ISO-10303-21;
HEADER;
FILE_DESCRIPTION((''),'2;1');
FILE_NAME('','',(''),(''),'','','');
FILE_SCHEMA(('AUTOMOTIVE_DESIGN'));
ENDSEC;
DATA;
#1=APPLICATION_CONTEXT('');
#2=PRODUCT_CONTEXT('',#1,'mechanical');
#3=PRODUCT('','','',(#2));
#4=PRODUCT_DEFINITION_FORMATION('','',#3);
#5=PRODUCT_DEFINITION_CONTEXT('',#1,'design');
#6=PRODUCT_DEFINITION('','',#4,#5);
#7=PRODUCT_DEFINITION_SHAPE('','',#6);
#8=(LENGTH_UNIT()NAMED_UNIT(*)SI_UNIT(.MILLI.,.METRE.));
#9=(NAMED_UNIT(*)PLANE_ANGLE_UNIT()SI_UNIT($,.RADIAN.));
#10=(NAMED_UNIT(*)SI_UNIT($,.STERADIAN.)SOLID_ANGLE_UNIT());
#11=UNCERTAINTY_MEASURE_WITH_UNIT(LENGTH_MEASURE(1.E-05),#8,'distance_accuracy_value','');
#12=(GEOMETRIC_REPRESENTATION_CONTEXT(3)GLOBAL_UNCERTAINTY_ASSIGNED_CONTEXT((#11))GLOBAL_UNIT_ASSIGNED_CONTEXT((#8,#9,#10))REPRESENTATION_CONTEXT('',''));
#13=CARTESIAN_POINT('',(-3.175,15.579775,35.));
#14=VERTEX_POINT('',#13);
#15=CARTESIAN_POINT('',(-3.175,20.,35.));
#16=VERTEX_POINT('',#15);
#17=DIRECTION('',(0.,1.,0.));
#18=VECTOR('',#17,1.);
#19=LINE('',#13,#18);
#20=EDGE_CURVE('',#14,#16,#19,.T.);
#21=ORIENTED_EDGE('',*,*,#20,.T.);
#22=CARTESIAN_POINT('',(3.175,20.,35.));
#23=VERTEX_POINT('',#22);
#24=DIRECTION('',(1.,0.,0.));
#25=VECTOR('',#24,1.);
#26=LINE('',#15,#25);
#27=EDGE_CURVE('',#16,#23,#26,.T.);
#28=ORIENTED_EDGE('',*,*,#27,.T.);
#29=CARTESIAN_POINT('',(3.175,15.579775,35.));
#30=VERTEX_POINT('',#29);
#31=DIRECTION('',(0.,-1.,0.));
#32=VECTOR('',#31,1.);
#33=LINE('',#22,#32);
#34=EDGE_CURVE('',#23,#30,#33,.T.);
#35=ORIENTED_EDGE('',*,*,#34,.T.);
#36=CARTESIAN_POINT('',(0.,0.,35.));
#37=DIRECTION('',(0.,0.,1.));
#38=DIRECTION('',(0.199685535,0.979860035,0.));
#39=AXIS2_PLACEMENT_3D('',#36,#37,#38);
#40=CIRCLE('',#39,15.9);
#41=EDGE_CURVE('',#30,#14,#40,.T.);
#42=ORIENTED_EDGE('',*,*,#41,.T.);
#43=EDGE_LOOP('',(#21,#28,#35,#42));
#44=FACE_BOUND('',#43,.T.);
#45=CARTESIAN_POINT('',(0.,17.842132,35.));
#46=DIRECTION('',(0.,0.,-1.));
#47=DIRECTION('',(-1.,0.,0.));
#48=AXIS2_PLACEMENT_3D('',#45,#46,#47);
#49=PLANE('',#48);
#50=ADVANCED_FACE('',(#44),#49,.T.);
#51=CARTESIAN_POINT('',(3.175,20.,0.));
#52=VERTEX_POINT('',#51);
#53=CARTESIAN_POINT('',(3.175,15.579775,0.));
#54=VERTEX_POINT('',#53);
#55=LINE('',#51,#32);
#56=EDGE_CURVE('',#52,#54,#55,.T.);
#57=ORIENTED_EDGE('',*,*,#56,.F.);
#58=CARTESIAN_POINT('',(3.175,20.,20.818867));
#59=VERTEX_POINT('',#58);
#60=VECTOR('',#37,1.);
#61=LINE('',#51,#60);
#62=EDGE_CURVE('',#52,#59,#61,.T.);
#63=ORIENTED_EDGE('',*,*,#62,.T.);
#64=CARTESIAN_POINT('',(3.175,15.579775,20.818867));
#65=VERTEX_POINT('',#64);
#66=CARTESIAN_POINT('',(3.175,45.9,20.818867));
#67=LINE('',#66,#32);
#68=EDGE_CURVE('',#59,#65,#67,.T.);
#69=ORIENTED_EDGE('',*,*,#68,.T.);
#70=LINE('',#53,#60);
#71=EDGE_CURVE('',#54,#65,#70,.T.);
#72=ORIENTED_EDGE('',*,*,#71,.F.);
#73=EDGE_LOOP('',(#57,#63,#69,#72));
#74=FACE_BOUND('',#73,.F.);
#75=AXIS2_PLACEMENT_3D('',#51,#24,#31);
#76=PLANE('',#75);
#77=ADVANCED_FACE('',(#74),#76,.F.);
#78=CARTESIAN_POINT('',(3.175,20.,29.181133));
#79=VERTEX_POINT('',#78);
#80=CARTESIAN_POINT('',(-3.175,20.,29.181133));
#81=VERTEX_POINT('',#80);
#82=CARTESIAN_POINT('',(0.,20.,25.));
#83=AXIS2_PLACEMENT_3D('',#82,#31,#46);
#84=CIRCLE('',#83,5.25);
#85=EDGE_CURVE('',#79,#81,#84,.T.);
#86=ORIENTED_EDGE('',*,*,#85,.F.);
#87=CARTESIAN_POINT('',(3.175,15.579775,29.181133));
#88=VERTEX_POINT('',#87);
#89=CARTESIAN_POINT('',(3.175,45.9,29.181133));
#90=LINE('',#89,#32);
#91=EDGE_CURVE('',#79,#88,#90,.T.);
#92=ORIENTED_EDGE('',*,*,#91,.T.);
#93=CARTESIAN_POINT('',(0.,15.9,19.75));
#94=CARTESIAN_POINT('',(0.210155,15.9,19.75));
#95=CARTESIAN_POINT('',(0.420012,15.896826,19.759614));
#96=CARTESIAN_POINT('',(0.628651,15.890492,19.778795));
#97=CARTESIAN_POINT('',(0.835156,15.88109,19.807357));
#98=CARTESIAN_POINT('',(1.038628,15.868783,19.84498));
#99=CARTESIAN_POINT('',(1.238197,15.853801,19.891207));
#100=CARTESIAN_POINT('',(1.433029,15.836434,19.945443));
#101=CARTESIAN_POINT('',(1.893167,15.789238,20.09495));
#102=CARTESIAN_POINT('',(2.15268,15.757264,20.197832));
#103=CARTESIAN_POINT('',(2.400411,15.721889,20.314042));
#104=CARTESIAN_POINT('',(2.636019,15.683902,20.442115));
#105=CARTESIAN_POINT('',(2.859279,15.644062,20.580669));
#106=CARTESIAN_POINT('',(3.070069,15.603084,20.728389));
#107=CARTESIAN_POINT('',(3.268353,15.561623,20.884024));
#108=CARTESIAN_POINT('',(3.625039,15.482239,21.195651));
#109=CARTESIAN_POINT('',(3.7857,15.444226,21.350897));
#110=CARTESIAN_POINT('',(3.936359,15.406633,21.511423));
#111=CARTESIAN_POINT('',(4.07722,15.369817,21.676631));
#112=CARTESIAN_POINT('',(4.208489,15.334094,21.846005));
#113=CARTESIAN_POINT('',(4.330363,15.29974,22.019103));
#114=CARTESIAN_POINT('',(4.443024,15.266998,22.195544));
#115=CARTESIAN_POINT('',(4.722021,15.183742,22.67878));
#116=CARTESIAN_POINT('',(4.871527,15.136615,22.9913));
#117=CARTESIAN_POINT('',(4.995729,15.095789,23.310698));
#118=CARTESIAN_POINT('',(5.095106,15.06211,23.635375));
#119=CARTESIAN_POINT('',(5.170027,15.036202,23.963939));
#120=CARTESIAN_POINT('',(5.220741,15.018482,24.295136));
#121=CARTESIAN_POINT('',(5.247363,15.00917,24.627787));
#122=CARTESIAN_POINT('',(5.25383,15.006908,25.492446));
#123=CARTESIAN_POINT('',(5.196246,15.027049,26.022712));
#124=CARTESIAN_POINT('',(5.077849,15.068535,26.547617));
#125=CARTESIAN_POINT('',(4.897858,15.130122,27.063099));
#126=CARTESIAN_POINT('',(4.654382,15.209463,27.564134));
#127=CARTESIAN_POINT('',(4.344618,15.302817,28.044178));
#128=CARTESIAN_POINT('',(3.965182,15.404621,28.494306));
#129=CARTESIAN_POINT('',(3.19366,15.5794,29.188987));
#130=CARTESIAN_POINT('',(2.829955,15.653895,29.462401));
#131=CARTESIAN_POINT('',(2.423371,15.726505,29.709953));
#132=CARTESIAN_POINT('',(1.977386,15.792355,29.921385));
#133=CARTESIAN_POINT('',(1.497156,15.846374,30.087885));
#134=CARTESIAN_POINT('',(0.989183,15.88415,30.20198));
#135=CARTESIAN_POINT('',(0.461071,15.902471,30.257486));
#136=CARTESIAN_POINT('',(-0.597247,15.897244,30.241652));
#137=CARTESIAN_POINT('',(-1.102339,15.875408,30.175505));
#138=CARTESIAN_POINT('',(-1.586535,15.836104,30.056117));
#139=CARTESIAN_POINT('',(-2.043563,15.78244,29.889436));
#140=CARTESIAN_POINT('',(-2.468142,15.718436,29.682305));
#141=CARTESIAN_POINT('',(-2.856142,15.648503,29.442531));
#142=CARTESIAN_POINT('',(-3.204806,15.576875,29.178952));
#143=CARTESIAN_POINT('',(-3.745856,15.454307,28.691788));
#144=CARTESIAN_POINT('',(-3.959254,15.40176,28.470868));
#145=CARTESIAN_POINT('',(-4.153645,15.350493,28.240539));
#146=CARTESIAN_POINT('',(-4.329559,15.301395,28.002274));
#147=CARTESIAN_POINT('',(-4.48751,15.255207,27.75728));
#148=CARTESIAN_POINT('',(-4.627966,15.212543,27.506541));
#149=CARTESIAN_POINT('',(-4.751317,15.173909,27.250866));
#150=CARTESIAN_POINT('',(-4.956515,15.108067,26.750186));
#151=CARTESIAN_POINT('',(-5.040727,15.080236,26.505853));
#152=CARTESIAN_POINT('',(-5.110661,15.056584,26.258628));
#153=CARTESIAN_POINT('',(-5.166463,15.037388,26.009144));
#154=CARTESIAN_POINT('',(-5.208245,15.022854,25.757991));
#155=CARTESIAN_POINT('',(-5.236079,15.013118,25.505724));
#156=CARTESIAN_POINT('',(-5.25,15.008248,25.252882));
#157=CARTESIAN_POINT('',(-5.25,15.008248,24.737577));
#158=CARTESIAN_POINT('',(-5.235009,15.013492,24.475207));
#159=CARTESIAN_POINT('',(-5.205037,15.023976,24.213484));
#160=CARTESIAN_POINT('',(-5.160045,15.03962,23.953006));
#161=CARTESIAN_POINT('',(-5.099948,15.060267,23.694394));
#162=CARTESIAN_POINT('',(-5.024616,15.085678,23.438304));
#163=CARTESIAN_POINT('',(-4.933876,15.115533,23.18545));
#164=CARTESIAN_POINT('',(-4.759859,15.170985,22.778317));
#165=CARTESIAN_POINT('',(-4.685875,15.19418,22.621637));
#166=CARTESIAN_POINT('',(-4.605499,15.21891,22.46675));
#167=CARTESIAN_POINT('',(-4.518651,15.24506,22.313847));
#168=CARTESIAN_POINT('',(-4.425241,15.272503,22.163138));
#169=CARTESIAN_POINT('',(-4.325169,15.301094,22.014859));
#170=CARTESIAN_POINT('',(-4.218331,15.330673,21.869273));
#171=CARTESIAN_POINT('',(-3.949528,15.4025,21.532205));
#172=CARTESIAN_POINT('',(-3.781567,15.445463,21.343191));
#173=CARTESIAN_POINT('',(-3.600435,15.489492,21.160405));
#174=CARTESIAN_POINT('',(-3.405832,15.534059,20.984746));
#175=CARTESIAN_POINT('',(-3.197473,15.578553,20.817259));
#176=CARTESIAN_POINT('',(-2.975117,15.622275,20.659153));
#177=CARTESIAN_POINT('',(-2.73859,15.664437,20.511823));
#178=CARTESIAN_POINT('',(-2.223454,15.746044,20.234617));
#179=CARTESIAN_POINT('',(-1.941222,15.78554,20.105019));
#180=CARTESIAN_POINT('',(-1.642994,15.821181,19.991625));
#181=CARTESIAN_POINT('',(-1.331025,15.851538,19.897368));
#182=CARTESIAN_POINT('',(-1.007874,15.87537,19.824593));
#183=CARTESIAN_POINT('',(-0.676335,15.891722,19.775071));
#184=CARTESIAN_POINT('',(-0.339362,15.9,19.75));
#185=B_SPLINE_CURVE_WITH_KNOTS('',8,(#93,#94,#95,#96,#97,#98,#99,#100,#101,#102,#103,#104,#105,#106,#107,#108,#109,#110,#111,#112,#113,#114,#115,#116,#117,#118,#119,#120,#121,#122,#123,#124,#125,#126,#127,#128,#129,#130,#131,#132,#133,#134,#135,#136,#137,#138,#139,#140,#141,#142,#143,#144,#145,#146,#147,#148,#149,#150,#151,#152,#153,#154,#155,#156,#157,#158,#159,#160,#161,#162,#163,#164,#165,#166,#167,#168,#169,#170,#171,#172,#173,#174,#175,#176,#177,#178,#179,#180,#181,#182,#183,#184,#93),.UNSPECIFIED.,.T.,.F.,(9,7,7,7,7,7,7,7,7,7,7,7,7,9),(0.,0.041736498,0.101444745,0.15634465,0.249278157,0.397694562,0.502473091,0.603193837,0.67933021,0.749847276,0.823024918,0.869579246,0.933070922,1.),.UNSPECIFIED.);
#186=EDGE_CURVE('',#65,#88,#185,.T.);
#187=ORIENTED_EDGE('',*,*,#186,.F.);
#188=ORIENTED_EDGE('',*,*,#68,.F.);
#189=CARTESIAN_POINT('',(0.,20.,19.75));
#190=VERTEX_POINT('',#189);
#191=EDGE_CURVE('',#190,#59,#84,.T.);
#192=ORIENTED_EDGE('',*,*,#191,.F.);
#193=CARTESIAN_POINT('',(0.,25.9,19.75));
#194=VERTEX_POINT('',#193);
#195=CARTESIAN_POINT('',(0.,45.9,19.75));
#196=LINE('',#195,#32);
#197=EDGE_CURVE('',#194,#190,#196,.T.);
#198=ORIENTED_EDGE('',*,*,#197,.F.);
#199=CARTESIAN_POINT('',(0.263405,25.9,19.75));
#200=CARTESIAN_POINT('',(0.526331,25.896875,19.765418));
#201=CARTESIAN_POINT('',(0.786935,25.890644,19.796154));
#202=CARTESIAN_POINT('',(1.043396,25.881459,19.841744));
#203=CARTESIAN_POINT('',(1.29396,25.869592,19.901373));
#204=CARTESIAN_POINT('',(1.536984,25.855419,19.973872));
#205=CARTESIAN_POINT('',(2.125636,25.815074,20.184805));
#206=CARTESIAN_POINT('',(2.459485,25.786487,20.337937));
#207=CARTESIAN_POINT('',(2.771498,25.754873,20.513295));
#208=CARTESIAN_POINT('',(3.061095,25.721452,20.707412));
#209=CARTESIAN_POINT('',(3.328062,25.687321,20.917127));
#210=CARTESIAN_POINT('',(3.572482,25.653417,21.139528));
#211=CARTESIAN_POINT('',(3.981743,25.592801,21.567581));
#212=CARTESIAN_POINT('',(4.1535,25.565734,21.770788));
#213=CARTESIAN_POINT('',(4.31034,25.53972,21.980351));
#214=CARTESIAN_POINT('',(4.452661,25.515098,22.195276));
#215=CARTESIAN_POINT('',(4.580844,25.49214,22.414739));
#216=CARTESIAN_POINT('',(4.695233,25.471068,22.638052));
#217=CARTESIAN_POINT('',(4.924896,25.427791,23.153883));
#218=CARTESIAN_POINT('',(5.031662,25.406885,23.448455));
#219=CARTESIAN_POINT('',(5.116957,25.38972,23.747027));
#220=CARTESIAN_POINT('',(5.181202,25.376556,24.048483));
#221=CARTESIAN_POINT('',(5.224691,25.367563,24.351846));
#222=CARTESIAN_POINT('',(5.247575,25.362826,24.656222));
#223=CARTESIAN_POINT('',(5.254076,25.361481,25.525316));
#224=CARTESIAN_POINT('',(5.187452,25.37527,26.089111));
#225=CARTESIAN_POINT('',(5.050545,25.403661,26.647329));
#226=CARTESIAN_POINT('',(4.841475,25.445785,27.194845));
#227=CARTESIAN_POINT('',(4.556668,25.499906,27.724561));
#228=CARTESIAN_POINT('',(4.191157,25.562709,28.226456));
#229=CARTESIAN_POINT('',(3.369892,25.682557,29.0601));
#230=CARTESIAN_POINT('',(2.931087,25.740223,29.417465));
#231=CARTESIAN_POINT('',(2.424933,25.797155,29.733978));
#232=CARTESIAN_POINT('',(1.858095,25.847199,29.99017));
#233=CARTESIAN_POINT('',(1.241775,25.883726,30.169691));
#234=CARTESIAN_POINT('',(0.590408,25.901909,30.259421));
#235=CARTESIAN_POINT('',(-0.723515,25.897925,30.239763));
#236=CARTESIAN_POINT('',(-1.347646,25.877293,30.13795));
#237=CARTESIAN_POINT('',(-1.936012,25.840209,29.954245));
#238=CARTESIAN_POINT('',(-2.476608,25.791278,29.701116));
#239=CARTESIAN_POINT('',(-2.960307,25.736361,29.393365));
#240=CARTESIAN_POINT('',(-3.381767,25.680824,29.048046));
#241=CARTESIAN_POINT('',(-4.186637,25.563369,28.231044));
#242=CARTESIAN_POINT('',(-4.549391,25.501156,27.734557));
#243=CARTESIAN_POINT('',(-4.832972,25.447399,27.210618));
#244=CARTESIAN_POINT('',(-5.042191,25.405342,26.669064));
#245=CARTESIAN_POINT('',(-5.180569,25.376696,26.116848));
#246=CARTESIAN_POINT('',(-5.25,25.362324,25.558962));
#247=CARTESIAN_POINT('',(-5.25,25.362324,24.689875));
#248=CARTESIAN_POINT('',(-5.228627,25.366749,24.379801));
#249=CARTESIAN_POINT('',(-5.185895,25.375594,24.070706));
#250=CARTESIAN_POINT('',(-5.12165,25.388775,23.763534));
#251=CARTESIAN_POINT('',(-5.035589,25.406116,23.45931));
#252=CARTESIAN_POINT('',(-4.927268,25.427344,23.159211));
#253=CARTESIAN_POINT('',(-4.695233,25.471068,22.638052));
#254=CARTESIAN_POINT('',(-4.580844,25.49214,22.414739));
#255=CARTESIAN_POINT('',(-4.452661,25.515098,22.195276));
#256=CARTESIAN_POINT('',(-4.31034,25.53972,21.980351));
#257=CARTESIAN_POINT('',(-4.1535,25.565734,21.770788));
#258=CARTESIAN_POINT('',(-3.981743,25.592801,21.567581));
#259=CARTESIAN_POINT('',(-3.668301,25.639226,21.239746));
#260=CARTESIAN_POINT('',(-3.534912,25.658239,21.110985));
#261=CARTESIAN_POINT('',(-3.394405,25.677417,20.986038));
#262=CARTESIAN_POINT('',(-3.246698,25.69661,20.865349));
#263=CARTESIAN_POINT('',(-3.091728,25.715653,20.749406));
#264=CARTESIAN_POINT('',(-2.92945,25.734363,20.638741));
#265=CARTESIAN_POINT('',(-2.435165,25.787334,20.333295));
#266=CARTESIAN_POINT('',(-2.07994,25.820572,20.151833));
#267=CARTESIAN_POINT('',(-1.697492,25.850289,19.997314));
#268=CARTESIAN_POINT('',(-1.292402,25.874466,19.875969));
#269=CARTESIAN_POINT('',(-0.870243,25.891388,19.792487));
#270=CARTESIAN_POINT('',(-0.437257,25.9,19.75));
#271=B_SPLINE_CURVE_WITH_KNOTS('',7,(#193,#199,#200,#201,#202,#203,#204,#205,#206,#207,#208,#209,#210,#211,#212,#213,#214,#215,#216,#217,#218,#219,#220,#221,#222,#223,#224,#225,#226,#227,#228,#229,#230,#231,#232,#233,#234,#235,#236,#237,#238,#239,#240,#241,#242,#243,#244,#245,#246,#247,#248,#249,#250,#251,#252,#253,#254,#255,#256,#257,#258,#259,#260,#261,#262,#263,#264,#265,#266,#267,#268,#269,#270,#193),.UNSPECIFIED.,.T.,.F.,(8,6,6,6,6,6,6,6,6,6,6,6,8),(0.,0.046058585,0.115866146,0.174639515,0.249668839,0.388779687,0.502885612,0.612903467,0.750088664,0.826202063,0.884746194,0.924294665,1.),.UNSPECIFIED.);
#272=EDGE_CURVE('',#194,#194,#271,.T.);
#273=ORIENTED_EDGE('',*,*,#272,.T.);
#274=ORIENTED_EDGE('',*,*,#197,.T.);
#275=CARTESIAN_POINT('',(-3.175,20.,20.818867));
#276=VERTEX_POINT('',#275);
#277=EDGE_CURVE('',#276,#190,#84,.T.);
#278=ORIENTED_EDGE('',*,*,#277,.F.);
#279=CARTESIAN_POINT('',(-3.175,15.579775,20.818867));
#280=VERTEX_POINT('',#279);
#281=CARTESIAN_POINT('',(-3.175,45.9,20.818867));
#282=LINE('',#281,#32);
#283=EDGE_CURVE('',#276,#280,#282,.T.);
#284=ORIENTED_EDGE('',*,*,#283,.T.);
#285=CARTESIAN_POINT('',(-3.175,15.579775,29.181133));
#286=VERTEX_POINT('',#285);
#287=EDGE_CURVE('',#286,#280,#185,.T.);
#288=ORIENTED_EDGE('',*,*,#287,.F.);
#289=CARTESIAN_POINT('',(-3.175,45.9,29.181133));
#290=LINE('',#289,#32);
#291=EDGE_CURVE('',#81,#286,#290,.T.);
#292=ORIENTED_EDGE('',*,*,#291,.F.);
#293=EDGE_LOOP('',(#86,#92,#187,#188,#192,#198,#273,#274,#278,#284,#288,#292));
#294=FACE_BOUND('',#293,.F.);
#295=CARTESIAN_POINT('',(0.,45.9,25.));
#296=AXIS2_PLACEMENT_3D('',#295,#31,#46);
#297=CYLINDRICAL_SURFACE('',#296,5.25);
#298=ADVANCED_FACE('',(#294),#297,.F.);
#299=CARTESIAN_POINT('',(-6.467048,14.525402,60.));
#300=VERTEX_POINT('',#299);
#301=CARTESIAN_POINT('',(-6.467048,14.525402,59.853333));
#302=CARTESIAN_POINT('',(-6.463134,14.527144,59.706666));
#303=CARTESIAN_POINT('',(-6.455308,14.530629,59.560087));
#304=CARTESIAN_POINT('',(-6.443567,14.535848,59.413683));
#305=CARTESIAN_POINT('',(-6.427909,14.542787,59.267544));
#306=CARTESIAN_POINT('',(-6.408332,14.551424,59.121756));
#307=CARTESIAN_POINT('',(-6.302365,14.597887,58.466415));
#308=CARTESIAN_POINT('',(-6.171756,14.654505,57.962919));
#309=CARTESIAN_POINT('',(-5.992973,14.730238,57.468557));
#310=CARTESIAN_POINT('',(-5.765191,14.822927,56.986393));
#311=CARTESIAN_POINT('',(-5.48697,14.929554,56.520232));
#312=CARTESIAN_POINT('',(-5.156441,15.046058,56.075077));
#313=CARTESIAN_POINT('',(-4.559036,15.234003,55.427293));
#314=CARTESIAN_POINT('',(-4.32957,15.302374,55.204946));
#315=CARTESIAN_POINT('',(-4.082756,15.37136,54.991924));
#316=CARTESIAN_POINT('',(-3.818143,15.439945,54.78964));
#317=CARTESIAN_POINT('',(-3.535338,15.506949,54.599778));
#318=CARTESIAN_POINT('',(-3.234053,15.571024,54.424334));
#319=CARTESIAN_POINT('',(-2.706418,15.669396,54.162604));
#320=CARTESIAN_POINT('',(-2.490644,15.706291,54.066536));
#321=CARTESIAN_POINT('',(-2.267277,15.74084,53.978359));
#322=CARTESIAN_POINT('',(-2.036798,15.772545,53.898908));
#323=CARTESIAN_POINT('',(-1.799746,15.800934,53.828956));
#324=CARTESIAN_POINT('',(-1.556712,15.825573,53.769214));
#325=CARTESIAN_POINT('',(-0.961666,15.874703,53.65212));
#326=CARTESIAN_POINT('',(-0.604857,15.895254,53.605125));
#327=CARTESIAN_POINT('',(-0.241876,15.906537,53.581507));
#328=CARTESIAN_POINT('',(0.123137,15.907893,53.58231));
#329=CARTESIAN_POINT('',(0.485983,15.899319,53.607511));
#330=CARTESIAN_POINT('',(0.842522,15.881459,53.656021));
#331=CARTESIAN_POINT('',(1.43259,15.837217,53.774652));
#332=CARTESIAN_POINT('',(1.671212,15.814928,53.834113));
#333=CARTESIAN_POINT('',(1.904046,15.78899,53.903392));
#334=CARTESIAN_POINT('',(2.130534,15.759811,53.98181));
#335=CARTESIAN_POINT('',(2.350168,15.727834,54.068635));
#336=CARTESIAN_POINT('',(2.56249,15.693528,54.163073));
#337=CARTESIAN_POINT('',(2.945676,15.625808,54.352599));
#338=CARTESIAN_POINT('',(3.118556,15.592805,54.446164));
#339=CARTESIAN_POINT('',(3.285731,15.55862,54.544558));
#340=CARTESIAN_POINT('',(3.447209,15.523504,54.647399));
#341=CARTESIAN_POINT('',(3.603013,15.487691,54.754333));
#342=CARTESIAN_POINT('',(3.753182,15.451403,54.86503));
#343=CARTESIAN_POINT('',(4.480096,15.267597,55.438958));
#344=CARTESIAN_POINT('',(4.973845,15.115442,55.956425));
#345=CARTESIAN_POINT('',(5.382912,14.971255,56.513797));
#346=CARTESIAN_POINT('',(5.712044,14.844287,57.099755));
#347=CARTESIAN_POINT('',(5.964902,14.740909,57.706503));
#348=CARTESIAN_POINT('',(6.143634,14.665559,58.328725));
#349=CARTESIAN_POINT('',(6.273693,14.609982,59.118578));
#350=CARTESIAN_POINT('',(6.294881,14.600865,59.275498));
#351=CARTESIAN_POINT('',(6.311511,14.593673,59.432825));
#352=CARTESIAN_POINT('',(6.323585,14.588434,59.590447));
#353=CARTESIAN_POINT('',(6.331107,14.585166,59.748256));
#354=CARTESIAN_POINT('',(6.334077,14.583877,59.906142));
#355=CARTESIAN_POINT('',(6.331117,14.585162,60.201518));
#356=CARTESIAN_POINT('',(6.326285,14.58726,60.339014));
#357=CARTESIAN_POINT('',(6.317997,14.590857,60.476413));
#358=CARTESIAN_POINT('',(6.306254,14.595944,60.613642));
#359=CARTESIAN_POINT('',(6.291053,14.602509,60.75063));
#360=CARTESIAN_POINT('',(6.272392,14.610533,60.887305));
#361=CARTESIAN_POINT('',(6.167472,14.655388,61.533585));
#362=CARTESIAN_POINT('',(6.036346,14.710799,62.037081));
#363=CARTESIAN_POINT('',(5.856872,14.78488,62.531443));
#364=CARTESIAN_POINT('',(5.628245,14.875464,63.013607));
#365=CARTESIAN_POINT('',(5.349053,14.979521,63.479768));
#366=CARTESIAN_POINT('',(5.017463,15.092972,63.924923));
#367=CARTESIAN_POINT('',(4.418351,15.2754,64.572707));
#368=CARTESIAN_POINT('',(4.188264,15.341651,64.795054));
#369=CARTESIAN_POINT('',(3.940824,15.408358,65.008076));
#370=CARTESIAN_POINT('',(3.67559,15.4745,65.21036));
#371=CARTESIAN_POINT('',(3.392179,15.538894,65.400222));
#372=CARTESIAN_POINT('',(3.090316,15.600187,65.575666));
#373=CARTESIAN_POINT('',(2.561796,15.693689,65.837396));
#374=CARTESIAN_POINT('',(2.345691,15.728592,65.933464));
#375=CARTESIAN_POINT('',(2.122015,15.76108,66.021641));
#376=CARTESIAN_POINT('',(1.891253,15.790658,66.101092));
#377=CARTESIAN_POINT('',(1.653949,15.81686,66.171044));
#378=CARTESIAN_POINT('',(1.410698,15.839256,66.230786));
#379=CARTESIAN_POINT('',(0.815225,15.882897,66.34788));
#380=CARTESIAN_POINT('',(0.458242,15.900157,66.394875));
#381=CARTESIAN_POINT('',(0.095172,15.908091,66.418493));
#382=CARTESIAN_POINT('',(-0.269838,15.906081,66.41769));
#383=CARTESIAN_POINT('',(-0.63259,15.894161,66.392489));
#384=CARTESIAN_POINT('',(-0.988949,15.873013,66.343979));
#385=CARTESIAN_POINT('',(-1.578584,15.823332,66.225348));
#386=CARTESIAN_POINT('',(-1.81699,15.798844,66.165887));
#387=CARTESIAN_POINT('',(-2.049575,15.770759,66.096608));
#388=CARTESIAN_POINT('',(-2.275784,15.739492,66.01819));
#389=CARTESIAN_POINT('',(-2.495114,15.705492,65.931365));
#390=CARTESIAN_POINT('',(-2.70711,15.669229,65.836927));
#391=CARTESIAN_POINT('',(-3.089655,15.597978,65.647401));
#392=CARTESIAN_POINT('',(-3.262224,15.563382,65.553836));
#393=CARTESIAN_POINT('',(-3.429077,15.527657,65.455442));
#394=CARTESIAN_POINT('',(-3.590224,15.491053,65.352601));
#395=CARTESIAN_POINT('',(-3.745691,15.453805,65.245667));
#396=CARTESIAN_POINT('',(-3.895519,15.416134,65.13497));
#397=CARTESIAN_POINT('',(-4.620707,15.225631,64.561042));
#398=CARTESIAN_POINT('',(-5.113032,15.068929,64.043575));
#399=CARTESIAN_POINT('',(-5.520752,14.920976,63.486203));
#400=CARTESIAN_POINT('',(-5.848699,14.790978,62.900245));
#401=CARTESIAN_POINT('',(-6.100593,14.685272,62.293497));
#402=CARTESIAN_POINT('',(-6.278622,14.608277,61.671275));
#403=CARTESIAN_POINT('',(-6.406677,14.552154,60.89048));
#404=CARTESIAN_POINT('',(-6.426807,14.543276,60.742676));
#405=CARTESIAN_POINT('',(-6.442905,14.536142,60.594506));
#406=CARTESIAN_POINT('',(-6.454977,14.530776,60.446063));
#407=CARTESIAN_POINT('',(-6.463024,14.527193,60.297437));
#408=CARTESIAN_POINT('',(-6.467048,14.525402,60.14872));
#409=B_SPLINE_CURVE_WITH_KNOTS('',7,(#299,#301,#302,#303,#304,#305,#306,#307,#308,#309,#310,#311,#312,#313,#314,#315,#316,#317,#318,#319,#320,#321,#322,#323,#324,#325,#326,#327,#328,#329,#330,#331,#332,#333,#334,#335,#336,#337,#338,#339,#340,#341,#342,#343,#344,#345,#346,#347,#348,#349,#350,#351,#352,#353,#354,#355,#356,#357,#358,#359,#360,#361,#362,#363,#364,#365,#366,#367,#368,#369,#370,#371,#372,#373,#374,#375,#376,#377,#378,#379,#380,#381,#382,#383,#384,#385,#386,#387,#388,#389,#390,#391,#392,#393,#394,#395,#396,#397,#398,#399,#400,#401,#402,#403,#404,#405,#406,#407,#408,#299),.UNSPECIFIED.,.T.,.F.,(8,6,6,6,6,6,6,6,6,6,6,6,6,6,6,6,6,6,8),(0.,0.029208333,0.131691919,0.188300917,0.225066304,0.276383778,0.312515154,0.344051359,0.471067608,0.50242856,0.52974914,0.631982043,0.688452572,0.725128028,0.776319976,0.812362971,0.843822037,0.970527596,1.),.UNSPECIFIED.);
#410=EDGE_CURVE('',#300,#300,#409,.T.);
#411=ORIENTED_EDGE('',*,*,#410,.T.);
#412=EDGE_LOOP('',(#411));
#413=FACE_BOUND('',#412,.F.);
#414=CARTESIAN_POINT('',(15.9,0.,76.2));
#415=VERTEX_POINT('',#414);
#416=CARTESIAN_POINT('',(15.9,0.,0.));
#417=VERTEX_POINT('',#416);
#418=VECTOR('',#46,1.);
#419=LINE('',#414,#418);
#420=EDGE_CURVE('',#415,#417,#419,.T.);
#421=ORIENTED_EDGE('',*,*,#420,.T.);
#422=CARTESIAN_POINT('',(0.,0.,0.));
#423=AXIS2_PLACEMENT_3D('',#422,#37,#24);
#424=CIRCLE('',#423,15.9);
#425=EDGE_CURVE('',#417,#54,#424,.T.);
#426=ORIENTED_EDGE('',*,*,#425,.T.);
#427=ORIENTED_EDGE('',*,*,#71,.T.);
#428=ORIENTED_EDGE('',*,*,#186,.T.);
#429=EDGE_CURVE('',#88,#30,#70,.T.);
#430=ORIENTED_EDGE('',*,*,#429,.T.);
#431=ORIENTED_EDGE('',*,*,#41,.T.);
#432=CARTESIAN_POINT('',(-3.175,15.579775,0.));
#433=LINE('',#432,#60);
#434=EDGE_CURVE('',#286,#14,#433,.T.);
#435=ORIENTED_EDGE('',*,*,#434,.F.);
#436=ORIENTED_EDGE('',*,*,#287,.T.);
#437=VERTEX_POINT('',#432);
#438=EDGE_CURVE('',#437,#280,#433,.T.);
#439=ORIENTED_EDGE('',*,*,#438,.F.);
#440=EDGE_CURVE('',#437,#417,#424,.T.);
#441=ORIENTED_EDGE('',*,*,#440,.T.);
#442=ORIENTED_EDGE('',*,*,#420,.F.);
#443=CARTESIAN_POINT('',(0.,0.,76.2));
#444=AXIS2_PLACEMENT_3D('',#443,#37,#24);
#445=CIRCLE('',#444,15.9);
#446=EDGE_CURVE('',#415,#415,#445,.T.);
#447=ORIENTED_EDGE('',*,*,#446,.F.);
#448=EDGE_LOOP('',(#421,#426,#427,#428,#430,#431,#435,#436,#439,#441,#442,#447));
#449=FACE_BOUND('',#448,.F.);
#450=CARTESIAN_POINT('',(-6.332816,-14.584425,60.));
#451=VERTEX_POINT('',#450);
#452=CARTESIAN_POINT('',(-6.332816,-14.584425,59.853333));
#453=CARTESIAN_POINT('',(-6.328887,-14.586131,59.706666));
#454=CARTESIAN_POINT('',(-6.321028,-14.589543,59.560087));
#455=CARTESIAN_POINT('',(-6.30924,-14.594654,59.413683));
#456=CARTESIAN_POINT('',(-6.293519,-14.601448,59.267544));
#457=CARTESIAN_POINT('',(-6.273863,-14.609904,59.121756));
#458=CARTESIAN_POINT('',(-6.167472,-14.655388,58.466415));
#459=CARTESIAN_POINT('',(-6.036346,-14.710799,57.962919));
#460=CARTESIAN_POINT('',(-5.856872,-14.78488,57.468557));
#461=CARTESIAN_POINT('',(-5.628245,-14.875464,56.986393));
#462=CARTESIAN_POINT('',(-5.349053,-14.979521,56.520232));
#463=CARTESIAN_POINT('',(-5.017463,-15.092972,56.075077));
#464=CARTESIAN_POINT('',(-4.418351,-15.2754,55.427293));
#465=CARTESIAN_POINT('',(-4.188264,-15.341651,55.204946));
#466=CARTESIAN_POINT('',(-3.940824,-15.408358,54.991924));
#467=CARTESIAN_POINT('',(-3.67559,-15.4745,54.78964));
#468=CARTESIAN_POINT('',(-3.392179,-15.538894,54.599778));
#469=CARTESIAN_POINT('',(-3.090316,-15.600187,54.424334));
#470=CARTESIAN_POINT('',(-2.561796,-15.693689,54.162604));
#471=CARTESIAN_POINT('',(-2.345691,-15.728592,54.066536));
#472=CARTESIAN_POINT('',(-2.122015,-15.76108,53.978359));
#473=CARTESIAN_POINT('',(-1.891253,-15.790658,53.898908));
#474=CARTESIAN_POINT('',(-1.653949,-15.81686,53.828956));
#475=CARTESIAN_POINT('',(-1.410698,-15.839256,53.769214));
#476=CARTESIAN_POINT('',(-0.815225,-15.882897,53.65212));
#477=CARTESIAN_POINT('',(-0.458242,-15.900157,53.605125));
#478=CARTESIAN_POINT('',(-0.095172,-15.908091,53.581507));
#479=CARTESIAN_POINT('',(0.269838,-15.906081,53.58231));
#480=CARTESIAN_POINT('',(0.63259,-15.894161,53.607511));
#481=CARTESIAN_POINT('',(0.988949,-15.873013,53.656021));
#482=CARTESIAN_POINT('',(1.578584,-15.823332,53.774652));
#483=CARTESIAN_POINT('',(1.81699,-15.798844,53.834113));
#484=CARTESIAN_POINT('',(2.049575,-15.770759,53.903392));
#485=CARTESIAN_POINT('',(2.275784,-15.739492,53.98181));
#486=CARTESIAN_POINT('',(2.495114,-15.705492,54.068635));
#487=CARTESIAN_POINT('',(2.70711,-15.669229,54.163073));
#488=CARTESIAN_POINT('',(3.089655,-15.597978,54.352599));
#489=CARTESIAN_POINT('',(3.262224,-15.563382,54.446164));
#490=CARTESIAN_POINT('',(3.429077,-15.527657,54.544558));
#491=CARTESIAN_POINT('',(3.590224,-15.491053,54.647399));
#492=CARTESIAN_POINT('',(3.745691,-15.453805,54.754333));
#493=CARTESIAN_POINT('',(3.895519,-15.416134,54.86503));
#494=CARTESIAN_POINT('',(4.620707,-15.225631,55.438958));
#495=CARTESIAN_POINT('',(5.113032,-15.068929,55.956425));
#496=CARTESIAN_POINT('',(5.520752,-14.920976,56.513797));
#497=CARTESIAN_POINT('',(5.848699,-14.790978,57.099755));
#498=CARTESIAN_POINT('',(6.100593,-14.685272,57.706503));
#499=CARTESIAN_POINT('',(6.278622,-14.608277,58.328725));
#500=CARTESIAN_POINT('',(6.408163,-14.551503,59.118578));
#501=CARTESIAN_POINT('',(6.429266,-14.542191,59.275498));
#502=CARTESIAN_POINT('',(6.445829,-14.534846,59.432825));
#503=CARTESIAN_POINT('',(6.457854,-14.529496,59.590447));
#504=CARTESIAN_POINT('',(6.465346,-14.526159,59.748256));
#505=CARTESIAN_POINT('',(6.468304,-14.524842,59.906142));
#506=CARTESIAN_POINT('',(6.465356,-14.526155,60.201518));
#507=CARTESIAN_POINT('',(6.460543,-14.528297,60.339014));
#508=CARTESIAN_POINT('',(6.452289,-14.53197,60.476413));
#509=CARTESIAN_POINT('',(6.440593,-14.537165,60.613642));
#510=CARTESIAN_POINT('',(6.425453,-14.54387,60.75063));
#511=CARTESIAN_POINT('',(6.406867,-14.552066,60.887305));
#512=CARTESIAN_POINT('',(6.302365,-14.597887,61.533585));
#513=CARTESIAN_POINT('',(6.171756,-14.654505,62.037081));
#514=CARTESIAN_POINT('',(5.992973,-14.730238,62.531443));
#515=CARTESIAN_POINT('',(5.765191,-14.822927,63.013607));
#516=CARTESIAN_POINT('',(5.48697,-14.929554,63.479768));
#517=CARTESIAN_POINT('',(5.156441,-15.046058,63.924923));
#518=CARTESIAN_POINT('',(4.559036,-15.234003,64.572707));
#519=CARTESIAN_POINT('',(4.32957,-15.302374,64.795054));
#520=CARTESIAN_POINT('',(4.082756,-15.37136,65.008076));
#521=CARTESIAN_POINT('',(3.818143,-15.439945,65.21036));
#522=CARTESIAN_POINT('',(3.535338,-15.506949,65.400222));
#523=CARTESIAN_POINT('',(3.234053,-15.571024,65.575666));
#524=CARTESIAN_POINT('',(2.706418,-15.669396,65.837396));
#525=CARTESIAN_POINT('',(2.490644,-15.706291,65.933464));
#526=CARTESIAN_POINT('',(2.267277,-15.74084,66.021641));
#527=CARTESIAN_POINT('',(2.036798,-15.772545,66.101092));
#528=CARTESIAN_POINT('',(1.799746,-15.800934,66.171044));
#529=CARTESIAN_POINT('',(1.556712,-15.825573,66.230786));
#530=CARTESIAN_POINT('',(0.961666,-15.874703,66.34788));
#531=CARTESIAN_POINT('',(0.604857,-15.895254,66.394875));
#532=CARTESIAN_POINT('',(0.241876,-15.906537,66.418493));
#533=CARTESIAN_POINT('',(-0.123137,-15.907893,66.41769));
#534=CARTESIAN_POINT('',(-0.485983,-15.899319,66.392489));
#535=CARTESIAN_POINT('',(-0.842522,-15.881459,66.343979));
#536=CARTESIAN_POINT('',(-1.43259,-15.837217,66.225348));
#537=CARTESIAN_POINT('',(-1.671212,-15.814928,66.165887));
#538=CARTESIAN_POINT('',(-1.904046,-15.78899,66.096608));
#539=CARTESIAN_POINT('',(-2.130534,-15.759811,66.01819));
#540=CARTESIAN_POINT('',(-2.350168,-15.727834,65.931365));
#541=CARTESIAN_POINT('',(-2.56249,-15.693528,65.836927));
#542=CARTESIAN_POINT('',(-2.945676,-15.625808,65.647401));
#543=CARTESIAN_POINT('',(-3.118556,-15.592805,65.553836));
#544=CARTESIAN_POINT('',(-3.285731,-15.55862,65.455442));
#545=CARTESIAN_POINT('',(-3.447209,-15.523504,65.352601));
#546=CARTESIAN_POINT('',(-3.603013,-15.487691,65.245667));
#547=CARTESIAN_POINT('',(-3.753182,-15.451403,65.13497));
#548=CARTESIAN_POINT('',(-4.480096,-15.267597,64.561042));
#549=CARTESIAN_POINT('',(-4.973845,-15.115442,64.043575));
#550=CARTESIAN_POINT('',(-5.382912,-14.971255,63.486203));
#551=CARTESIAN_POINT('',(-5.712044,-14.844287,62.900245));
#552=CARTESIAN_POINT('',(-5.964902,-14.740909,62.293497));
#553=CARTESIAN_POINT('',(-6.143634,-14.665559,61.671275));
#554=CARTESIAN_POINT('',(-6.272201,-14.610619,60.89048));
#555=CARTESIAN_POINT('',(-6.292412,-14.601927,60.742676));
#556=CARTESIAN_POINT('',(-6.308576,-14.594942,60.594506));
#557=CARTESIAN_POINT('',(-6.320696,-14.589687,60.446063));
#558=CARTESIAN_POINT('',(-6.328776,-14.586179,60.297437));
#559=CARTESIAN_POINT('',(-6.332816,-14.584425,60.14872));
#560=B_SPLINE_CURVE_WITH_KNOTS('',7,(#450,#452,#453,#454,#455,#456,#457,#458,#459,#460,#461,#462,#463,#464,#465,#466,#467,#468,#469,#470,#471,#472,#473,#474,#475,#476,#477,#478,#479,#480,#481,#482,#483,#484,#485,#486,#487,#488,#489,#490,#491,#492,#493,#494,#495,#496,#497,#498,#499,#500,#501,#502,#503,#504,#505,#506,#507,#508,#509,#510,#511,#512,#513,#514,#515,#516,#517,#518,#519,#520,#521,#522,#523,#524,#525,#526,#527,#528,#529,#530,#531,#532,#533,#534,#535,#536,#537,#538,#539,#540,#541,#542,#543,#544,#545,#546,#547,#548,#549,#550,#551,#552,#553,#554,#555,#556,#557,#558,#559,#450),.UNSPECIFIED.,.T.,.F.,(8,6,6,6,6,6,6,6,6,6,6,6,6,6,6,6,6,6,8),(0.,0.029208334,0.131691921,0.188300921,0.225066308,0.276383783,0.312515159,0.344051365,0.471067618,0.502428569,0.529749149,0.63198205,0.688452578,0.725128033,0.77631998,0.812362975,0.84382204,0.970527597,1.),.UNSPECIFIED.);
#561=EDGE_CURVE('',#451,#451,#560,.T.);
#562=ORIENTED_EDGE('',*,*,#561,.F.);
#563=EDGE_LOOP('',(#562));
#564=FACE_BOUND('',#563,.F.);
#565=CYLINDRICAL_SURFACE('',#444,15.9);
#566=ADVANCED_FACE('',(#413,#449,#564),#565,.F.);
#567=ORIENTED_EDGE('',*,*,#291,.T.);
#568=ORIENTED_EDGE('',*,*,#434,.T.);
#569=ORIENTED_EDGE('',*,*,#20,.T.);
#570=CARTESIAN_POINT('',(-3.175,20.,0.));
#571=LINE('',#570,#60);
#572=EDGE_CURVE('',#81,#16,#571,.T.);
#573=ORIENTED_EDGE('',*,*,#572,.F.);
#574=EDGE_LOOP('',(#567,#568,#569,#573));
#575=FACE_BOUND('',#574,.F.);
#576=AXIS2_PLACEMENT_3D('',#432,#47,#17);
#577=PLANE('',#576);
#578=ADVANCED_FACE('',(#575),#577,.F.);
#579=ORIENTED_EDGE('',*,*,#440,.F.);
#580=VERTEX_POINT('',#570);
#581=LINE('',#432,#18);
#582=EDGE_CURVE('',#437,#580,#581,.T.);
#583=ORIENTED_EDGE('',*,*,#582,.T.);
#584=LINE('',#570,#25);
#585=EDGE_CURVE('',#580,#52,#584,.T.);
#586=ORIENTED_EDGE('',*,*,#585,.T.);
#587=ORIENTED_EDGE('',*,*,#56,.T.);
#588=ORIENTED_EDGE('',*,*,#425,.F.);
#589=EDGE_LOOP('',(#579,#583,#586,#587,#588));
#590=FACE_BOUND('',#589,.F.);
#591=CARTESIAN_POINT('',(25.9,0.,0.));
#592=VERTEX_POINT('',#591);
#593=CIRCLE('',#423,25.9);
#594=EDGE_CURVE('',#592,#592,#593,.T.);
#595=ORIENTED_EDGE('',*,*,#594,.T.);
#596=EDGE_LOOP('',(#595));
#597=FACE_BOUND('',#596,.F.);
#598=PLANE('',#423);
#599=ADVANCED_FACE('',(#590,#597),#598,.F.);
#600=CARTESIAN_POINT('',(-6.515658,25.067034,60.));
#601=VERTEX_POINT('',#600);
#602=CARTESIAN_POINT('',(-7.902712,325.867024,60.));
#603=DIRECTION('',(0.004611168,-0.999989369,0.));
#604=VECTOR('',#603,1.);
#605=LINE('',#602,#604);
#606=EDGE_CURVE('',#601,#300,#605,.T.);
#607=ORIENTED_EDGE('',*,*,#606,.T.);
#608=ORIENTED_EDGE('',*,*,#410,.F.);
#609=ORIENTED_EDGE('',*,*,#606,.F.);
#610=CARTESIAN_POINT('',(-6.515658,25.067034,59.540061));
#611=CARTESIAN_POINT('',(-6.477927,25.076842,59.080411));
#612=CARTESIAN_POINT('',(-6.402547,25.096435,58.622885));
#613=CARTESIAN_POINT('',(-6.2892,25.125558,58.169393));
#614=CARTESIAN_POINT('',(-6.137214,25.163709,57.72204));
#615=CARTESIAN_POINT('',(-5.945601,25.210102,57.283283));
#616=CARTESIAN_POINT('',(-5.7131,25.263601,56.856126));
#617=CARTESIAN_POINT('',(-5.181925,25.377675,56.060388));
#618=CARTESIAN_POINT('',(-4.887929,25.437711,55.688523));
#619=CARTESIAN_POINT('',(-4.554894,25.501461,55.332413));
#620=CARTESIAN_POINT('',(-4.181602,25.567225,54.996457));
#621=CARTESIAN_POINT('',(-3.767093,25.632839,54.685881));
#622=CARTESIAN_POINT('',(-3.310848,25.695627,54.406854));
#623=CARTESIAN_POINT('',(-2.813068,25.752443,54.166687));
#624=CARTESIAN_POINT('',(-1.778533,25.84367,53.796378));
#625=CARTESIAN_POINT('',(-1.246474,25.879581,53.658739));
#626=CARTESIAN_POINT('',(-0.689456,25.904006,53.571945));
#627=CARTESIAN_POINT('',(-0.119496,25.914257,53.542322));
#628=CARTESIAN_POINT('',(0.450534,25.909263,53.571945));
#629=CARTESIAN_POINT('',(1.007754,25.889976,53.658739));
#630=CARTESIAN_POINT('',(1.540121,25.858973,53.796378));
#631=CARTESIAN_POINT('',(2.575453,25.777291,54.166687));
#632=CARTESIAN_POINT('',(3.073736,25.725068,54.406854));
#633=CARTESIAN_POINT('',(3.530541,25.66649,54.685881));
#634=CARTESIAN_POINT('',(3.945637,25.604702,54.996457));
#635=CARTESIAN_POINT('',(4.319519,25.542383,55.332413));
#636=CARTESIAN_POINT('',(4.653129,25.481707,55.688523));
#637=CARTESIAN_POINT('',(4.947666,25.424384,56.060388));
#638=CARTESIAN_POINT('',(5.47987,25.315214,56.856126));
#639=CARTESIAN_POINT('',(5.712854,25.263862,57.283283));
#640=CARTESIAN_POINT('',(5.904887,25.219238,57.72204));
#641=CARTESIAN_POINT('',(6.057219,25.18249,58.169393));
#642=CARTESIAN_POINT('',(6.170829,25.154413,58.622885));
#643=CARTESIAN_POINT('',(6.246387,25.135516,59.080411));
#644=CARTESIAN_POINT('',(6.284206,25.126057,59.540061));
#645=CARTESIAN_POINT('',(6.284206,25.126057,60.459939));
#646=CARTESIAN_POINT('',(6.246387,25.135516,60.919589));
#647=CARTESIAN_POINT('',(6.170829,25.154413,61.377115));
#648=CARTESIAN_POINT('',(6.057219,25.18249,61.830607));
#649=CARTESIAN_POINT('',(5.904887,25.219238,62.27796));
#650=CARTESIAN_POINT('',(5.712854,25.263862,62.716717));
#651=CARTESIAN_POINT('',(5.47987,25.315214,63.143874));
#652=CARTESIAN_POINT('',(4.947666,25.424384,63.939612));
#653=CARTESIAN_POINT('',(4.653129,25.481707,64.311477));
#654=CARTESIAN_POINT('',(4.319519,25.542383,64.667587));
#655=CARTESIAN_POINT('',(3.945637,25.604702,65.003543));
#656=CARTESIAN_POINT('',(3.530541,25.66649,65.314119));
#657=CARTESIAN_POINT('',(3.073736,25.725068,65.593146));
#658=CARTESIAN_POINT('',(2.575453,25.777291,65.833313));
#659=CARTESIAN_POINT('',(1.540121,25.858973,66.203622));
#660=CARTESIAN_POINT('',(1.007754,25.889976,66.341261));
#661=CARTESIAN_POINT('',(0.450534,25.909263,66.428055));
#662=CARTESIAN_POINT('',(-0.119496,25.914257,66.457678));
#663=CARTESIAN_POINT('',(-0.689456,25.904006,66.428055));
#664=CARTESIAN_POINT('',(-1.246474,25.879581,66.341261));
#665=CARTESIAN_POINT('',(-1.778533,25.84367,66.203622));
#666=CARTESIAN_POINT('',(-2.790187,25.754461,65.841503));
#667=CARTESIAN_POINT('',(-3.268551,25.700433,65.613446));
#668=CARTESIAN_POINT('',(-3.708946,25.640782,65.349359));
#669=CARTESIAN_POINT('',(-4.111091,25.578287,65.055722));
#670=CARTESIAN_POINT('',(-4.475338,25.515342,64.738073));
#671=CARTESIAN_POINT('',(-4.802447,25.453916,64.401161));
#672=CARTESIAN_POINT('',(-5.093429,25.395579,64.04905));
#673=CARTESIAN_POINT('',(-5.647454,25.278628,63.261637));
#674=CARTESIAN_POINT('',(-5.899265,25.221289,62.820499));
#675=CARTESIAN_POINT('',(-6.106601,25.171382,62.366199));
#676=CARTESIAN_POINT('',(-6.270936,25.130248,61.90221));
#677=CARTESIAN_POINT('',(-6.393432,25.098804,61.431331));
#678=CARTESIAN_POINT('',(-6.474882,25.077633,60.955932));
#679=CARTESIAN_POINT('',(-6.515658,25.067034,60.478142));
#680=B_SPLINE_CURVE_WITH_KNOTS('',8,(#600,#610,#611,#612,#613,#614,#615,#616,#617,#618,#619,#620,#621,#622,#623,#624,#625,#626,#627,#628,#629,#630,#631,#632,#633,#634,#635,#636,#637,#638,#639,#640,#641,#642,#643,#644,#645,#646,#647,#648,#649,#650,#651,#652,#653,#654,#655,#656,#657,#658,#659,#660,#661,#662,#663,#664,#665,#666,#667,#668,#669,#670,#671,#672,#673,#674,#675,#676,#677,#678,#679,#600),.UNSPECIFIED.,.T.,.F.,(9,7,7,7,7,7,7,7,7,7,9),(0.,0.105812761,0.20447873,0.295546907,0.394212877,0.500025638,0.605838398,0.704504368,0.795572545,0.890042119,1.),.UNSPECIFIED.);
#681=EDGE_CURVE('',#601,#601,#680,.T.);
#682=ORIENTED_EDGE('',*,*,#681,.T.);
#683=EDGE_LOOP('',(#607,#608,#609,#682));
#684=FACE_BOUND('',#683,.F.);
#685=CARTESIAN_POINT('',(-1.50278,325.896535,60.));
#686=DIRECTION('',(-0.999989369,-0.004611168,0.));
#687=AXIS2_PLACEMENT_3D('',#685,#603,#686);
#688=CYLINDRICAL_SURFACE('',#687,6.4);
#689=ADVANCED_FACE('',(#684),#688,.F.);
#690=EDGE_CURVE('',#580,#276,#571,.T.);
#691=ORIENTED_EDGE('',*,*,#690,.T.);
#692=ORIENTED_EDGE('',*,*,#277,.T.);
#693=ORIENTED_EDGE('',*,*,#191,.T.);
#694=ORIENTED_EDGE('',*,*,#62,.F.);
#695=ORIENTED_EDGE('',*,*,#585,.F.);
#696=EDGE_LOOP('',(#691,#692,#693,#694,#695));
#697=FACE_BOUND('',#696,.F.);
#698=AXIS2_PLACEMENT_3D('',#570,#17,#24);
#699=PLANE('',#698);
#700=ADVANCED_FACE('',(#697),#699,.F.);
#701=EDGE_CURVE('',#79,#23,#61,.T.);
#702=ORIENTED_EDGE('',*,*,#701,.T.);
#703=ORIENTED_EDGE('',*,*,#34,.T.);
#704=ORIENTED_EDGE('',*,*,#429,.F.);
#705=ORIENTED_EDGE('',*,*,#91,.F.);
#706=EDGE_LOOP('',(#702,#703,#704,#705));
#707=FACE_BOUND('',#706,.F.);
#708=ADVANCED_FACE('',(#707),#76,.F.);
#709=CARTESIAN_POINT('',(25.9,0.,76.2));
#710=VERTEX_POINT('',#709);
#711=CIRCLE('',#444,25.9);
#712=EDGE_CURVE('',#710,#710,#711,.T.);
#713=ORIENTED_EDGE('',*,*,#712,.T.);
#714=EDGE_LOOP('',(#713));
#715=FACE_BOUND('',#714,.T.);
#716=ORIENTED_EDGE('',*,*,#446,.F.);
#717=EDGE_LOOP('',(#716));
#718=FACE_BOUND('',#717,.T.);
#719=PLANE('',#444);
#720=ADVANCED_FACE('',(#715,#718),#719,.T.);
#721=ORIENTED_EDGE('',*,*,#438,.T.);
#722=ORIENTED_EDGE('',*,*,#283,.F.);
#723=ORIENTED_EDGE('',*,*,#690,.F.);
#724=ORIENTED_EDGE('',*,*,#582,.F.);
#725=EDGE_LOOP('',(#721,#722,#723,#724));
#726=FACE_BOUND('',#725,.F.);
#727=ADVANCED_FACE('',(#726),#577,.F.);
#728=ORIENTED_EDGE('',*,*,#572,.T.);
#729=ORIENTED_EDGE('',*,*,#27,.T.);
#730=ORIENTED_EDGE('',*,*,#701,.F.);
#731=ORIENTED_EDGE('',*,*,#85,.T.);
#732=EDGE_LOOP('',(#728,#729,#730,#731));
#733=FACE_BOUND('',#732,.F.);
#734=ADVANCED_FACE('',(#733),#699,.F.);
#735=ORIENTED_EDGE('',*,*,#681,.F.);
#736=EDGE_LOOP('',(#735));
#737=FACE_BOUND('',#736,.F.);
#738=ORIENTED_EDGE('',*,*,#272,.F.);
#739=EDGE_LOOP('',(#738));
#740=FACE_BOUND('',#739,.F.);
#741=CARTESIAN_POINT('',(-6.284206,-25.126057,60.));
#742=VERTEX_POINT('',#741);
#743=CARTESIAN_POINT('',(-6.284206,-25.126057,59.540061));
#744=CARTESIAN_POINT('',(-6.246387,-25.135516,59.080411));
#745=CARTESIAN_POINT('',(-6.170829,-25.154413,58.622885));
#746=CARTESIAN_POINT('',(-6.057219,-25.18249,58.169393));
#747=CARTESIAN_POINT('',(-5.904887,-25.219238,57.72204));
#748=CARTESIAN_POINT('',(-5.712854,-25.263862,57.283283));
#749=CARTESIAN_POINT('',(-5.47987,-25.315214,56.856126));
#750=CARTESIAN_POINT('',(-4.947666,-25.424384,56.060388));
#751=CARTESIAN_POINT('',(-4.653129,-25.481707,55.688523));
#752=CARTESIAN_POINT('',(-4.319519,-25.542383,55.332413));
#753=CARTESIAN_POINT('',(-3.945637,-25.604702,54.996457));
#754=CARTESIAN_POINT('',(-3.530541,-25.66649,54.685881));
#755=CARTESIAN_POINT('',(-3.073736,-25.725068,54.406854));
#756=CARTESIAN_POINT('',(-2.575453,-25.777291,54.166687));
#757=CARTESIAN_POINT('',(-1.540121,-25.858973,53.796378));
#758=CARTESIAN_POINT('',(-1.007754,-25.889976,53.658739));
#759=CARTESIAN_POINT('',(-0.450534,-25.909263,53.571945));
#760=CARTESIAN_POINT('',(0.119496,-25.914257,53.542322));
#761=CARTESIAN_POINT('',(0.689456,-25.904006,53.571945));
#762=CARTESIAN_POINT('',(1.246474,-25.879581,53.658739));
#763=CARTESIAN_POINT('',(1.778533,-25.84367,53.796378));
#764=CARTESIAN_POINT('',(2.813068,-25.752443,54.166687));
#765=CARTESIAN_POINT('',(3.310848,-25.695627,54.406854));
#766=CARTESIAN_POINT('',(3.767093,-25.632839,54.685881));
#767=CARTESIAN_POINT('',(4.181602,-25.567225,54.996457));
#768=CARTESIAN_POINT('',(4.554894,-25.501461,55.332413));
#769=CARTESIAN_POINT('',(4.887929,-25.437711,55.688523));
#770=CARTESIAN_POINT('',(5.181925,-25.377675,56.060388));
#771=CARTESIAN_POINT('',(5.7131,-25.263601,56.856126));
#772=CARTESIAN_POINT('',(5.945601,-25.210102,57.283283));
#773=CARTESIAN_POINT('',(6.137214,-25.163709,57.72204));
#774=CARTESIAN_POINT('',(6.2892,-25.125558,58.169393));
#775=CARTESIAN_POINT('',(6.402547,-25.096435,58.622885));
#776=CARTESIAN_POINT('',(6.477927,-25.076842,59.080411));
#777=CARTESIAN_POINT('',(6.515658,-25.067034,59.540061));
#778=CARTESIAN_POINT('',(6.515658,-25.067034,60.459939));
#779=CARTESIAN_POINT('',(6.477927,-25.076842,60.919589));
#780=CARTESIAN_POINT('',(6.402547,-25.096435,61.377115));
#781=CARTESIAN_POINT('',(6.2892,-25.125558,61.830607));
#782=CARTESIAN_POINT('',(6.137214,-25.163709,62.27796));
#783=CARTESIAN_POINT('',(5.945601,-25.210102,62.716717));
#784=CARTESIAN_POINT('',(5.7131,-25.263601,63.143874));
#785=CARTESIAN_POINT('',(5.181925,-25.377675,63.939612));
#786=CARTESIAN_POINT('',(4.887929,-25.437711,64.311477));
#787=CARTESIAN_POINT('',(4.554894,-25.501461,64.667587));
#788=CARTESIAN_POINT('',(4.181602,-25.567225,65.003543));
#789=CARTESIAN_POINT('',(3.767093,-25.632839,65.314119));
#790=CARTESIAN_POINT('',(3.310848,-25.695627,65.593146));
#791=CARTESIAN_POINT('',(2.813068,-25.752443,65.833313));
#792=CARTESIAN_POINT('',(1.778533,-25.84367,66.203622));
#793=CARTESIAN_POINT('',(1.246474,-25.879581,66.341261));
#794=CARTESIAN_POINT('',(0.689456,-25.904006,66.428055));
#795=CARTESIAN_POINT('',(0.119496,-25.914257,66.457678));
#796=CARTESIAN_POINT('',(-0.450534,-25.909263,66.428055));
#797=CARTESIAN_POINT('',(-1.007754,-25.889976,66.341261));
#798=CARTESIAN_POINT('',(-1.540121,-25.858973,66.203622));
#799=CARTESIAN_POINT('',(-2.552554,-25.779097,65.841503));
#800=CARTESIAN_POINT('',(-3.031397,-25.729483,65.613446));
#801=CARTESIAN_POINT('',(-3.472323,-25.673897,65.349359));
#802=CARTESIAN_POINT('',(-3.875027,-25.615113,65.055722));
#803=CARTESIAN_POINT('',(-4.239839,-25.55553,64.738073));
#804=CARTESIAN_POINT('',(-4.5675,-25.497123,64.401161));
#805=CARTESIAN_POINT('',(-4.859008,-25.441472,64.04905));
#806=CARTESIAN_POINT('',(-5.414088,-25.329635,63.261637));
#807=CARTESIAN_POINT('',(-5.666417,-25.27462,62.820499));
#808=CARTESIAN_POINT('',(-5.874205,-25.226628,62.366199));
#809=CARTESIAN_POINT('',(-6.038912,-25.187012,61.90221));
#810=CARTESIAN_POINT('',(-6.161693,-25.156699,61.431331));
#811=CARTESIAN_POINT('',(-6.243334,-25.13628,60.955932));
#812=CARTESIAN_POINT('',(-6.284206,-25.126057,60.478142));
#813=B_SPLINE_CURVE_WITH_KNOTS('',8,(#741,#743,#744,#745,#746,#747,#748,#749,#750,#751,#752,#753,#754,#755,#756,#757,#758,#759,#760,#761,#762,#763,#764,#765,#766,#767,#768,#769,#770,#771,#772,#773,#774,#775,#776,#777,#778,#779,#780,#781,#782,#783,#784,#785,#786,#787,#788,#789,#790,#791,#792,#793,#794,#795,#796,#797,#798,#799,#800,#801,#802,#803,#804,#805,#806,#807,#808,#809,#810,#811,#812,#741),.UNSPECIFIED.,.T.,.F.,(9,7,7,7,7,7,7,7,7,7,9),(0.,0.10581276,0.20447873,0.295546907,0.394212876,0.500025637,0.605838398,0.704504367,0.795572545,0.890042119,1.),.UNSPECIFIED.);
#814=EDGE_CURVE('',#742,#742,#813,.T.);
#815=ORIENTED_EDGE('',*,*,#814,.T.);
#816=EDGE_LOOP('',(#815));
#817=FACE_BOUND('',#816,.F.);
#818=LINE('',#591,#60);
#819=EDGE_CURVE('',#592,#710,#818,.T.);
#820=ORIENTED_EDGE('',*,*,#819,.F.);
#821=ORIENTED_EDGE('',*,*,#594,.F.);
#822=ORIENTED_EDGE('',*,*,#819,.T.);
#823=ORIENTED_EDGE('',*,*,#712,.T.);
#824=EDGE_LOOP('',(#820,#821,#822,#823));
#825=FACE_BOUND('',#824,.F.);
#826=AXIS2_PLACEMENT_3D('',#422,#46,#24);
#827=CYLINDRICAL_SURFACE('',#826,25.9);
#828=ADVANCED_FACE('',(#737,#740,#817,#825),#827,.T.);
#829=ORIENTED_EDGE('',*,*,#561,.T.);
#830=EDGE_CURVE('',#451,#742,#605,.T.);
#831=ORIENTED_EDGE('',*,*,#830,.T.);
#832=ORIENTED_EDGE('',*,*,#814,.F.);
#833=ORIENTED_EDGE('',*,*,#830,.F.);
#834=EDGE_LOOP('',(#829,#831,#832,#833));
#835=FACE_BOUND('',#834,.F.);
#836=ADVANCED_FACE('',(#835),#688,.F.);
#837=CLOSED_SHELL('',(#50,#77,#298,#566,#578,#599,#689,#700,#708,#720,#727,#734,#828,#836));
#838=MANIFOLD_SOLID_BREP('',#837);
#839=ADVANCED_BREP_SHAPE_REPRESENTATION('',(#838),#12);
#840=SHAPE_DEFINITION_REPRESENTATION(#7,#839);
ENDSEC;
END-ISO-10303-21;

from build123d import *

# Parameters (mm, degrees)
SKETCH1_R                        = 25.9
BOSS_EXTRUDE1_DEPTH              = 76.2
SKETCH2_R                        = 15.9
CUT_EXTRUDE1_DEPTH               = 77.2
F_10_5_10_5_DIAMETER_HOLE1_D     = 10.5
F_10_5_10_5_DIAMETER_HOLE1_DEPTH = 20
F_10_5_10_5_DIAMETER_HOLE1_TIP   = 3.15451825
F_12_8_12_8_DIAMETER_HOLE1_D     = 12.8
F_12_8_12_8_DIAMETER_HOLE1_DEPTH = 300
F_12_8_12_8_DIAMETER_HOLE1_TIP   = 3.845507962
CUT_EXTRUDE2_DEPTH               = 35


with BuildPart() as part:
    # Sketch1 → Boss-Extrude1 (new body)
    with BuildSketch(Plane.XY):
        Circle(SKETCH1_R)
    extrude(amount=BOSS_EXTRUDE1_DEPTH)

    # Sketch2 → Cut-Extrude1 (cut, through all)
    with BuildSketch(Plane.XY.offset(76.2)):
        Circle(SKETCH2_R)
    extrude(amount=-CUT_EXTRUDE1_DEPTH, mode=Mode.SUBTRACT)

    # Ø10.5 (10.5) Diameter Hole1
    with Locations(Plane(origin=(0, 25.9, 25), x_dir=(0, 0, 1), z_dir=(0, 1, 0))):
        with Locations((0, 0)):
            Hole(F_10_5_10_5_DIAMETER_HOLE1_D / 2, depth=F_10_5_10_5_DIAMETER_HOLE1_DEPTH)
            with Locations((0, 0, -(F_10_5_10_5_DIAMETER_HOLE1_DEPTH + F_10_5_10_5_DIAMETER_HOLE1_TIP / 2))):  # 118° drill point
                Cone(0, F_10_5_10_5_DIAMETER_HOLE1_D / 2, F_10_5_10_5_DIAMETER_HOLE1_TIP, mode=Mode.SUBTRACT)

    # Ø12.8 (12.8) Diameter Hole1
    with Locations(Plane(origin=(-0.119429255, 25.899724644, 60), x_dir=(0.999989369, 0.004611168, 0), z_dir=(-0.004611168, 0.999989369, 0))):
        with Locations((0, 0)):
            Hole(F_12_8_12_8_DIAMETER_HOLE1_D / 2, depth=F_12_8_12_8_DIAMETER_HOLE1_DEPTH)
            with Locations((0, 0, -(F_12_8_12_8_DIAMETER_HOLE1_DEPTH + F_12_8_12_8_DIAMETER_HOLE1_TIP / 2))):  # 118° drill point
                Cone(0, F_12_8_12_8_DIAMETER_HOLE1_D / 2, F_12_8_12_8_DIAMETER_HOLE1_TIP, mode=Mode.SUBTRACT)

    # Sketch5 → Cut-Extrude2 (cut)
    with BuildSketch(Plane(origin=(0, 0, 0), x_dir=(-1, 0, 0), z_dir=(0, 0, -1))):
        with BuildLine():
            Line((-3.175, 20), (-3.175, 15.579774549))
            ThreePointArc((-3.175, 15.579774549), (0, 15.9), (3.175, 15.579774549))
            Line((3.175, 15.579774549), (3.175, 20))
            Line((3.175, 20), (-3.175, 20))
        make_face()
    extrude(amount=-CUT_EXTRUDE2_DEPTH, mode=Mode.SUBTRACT)


solid = part.part
